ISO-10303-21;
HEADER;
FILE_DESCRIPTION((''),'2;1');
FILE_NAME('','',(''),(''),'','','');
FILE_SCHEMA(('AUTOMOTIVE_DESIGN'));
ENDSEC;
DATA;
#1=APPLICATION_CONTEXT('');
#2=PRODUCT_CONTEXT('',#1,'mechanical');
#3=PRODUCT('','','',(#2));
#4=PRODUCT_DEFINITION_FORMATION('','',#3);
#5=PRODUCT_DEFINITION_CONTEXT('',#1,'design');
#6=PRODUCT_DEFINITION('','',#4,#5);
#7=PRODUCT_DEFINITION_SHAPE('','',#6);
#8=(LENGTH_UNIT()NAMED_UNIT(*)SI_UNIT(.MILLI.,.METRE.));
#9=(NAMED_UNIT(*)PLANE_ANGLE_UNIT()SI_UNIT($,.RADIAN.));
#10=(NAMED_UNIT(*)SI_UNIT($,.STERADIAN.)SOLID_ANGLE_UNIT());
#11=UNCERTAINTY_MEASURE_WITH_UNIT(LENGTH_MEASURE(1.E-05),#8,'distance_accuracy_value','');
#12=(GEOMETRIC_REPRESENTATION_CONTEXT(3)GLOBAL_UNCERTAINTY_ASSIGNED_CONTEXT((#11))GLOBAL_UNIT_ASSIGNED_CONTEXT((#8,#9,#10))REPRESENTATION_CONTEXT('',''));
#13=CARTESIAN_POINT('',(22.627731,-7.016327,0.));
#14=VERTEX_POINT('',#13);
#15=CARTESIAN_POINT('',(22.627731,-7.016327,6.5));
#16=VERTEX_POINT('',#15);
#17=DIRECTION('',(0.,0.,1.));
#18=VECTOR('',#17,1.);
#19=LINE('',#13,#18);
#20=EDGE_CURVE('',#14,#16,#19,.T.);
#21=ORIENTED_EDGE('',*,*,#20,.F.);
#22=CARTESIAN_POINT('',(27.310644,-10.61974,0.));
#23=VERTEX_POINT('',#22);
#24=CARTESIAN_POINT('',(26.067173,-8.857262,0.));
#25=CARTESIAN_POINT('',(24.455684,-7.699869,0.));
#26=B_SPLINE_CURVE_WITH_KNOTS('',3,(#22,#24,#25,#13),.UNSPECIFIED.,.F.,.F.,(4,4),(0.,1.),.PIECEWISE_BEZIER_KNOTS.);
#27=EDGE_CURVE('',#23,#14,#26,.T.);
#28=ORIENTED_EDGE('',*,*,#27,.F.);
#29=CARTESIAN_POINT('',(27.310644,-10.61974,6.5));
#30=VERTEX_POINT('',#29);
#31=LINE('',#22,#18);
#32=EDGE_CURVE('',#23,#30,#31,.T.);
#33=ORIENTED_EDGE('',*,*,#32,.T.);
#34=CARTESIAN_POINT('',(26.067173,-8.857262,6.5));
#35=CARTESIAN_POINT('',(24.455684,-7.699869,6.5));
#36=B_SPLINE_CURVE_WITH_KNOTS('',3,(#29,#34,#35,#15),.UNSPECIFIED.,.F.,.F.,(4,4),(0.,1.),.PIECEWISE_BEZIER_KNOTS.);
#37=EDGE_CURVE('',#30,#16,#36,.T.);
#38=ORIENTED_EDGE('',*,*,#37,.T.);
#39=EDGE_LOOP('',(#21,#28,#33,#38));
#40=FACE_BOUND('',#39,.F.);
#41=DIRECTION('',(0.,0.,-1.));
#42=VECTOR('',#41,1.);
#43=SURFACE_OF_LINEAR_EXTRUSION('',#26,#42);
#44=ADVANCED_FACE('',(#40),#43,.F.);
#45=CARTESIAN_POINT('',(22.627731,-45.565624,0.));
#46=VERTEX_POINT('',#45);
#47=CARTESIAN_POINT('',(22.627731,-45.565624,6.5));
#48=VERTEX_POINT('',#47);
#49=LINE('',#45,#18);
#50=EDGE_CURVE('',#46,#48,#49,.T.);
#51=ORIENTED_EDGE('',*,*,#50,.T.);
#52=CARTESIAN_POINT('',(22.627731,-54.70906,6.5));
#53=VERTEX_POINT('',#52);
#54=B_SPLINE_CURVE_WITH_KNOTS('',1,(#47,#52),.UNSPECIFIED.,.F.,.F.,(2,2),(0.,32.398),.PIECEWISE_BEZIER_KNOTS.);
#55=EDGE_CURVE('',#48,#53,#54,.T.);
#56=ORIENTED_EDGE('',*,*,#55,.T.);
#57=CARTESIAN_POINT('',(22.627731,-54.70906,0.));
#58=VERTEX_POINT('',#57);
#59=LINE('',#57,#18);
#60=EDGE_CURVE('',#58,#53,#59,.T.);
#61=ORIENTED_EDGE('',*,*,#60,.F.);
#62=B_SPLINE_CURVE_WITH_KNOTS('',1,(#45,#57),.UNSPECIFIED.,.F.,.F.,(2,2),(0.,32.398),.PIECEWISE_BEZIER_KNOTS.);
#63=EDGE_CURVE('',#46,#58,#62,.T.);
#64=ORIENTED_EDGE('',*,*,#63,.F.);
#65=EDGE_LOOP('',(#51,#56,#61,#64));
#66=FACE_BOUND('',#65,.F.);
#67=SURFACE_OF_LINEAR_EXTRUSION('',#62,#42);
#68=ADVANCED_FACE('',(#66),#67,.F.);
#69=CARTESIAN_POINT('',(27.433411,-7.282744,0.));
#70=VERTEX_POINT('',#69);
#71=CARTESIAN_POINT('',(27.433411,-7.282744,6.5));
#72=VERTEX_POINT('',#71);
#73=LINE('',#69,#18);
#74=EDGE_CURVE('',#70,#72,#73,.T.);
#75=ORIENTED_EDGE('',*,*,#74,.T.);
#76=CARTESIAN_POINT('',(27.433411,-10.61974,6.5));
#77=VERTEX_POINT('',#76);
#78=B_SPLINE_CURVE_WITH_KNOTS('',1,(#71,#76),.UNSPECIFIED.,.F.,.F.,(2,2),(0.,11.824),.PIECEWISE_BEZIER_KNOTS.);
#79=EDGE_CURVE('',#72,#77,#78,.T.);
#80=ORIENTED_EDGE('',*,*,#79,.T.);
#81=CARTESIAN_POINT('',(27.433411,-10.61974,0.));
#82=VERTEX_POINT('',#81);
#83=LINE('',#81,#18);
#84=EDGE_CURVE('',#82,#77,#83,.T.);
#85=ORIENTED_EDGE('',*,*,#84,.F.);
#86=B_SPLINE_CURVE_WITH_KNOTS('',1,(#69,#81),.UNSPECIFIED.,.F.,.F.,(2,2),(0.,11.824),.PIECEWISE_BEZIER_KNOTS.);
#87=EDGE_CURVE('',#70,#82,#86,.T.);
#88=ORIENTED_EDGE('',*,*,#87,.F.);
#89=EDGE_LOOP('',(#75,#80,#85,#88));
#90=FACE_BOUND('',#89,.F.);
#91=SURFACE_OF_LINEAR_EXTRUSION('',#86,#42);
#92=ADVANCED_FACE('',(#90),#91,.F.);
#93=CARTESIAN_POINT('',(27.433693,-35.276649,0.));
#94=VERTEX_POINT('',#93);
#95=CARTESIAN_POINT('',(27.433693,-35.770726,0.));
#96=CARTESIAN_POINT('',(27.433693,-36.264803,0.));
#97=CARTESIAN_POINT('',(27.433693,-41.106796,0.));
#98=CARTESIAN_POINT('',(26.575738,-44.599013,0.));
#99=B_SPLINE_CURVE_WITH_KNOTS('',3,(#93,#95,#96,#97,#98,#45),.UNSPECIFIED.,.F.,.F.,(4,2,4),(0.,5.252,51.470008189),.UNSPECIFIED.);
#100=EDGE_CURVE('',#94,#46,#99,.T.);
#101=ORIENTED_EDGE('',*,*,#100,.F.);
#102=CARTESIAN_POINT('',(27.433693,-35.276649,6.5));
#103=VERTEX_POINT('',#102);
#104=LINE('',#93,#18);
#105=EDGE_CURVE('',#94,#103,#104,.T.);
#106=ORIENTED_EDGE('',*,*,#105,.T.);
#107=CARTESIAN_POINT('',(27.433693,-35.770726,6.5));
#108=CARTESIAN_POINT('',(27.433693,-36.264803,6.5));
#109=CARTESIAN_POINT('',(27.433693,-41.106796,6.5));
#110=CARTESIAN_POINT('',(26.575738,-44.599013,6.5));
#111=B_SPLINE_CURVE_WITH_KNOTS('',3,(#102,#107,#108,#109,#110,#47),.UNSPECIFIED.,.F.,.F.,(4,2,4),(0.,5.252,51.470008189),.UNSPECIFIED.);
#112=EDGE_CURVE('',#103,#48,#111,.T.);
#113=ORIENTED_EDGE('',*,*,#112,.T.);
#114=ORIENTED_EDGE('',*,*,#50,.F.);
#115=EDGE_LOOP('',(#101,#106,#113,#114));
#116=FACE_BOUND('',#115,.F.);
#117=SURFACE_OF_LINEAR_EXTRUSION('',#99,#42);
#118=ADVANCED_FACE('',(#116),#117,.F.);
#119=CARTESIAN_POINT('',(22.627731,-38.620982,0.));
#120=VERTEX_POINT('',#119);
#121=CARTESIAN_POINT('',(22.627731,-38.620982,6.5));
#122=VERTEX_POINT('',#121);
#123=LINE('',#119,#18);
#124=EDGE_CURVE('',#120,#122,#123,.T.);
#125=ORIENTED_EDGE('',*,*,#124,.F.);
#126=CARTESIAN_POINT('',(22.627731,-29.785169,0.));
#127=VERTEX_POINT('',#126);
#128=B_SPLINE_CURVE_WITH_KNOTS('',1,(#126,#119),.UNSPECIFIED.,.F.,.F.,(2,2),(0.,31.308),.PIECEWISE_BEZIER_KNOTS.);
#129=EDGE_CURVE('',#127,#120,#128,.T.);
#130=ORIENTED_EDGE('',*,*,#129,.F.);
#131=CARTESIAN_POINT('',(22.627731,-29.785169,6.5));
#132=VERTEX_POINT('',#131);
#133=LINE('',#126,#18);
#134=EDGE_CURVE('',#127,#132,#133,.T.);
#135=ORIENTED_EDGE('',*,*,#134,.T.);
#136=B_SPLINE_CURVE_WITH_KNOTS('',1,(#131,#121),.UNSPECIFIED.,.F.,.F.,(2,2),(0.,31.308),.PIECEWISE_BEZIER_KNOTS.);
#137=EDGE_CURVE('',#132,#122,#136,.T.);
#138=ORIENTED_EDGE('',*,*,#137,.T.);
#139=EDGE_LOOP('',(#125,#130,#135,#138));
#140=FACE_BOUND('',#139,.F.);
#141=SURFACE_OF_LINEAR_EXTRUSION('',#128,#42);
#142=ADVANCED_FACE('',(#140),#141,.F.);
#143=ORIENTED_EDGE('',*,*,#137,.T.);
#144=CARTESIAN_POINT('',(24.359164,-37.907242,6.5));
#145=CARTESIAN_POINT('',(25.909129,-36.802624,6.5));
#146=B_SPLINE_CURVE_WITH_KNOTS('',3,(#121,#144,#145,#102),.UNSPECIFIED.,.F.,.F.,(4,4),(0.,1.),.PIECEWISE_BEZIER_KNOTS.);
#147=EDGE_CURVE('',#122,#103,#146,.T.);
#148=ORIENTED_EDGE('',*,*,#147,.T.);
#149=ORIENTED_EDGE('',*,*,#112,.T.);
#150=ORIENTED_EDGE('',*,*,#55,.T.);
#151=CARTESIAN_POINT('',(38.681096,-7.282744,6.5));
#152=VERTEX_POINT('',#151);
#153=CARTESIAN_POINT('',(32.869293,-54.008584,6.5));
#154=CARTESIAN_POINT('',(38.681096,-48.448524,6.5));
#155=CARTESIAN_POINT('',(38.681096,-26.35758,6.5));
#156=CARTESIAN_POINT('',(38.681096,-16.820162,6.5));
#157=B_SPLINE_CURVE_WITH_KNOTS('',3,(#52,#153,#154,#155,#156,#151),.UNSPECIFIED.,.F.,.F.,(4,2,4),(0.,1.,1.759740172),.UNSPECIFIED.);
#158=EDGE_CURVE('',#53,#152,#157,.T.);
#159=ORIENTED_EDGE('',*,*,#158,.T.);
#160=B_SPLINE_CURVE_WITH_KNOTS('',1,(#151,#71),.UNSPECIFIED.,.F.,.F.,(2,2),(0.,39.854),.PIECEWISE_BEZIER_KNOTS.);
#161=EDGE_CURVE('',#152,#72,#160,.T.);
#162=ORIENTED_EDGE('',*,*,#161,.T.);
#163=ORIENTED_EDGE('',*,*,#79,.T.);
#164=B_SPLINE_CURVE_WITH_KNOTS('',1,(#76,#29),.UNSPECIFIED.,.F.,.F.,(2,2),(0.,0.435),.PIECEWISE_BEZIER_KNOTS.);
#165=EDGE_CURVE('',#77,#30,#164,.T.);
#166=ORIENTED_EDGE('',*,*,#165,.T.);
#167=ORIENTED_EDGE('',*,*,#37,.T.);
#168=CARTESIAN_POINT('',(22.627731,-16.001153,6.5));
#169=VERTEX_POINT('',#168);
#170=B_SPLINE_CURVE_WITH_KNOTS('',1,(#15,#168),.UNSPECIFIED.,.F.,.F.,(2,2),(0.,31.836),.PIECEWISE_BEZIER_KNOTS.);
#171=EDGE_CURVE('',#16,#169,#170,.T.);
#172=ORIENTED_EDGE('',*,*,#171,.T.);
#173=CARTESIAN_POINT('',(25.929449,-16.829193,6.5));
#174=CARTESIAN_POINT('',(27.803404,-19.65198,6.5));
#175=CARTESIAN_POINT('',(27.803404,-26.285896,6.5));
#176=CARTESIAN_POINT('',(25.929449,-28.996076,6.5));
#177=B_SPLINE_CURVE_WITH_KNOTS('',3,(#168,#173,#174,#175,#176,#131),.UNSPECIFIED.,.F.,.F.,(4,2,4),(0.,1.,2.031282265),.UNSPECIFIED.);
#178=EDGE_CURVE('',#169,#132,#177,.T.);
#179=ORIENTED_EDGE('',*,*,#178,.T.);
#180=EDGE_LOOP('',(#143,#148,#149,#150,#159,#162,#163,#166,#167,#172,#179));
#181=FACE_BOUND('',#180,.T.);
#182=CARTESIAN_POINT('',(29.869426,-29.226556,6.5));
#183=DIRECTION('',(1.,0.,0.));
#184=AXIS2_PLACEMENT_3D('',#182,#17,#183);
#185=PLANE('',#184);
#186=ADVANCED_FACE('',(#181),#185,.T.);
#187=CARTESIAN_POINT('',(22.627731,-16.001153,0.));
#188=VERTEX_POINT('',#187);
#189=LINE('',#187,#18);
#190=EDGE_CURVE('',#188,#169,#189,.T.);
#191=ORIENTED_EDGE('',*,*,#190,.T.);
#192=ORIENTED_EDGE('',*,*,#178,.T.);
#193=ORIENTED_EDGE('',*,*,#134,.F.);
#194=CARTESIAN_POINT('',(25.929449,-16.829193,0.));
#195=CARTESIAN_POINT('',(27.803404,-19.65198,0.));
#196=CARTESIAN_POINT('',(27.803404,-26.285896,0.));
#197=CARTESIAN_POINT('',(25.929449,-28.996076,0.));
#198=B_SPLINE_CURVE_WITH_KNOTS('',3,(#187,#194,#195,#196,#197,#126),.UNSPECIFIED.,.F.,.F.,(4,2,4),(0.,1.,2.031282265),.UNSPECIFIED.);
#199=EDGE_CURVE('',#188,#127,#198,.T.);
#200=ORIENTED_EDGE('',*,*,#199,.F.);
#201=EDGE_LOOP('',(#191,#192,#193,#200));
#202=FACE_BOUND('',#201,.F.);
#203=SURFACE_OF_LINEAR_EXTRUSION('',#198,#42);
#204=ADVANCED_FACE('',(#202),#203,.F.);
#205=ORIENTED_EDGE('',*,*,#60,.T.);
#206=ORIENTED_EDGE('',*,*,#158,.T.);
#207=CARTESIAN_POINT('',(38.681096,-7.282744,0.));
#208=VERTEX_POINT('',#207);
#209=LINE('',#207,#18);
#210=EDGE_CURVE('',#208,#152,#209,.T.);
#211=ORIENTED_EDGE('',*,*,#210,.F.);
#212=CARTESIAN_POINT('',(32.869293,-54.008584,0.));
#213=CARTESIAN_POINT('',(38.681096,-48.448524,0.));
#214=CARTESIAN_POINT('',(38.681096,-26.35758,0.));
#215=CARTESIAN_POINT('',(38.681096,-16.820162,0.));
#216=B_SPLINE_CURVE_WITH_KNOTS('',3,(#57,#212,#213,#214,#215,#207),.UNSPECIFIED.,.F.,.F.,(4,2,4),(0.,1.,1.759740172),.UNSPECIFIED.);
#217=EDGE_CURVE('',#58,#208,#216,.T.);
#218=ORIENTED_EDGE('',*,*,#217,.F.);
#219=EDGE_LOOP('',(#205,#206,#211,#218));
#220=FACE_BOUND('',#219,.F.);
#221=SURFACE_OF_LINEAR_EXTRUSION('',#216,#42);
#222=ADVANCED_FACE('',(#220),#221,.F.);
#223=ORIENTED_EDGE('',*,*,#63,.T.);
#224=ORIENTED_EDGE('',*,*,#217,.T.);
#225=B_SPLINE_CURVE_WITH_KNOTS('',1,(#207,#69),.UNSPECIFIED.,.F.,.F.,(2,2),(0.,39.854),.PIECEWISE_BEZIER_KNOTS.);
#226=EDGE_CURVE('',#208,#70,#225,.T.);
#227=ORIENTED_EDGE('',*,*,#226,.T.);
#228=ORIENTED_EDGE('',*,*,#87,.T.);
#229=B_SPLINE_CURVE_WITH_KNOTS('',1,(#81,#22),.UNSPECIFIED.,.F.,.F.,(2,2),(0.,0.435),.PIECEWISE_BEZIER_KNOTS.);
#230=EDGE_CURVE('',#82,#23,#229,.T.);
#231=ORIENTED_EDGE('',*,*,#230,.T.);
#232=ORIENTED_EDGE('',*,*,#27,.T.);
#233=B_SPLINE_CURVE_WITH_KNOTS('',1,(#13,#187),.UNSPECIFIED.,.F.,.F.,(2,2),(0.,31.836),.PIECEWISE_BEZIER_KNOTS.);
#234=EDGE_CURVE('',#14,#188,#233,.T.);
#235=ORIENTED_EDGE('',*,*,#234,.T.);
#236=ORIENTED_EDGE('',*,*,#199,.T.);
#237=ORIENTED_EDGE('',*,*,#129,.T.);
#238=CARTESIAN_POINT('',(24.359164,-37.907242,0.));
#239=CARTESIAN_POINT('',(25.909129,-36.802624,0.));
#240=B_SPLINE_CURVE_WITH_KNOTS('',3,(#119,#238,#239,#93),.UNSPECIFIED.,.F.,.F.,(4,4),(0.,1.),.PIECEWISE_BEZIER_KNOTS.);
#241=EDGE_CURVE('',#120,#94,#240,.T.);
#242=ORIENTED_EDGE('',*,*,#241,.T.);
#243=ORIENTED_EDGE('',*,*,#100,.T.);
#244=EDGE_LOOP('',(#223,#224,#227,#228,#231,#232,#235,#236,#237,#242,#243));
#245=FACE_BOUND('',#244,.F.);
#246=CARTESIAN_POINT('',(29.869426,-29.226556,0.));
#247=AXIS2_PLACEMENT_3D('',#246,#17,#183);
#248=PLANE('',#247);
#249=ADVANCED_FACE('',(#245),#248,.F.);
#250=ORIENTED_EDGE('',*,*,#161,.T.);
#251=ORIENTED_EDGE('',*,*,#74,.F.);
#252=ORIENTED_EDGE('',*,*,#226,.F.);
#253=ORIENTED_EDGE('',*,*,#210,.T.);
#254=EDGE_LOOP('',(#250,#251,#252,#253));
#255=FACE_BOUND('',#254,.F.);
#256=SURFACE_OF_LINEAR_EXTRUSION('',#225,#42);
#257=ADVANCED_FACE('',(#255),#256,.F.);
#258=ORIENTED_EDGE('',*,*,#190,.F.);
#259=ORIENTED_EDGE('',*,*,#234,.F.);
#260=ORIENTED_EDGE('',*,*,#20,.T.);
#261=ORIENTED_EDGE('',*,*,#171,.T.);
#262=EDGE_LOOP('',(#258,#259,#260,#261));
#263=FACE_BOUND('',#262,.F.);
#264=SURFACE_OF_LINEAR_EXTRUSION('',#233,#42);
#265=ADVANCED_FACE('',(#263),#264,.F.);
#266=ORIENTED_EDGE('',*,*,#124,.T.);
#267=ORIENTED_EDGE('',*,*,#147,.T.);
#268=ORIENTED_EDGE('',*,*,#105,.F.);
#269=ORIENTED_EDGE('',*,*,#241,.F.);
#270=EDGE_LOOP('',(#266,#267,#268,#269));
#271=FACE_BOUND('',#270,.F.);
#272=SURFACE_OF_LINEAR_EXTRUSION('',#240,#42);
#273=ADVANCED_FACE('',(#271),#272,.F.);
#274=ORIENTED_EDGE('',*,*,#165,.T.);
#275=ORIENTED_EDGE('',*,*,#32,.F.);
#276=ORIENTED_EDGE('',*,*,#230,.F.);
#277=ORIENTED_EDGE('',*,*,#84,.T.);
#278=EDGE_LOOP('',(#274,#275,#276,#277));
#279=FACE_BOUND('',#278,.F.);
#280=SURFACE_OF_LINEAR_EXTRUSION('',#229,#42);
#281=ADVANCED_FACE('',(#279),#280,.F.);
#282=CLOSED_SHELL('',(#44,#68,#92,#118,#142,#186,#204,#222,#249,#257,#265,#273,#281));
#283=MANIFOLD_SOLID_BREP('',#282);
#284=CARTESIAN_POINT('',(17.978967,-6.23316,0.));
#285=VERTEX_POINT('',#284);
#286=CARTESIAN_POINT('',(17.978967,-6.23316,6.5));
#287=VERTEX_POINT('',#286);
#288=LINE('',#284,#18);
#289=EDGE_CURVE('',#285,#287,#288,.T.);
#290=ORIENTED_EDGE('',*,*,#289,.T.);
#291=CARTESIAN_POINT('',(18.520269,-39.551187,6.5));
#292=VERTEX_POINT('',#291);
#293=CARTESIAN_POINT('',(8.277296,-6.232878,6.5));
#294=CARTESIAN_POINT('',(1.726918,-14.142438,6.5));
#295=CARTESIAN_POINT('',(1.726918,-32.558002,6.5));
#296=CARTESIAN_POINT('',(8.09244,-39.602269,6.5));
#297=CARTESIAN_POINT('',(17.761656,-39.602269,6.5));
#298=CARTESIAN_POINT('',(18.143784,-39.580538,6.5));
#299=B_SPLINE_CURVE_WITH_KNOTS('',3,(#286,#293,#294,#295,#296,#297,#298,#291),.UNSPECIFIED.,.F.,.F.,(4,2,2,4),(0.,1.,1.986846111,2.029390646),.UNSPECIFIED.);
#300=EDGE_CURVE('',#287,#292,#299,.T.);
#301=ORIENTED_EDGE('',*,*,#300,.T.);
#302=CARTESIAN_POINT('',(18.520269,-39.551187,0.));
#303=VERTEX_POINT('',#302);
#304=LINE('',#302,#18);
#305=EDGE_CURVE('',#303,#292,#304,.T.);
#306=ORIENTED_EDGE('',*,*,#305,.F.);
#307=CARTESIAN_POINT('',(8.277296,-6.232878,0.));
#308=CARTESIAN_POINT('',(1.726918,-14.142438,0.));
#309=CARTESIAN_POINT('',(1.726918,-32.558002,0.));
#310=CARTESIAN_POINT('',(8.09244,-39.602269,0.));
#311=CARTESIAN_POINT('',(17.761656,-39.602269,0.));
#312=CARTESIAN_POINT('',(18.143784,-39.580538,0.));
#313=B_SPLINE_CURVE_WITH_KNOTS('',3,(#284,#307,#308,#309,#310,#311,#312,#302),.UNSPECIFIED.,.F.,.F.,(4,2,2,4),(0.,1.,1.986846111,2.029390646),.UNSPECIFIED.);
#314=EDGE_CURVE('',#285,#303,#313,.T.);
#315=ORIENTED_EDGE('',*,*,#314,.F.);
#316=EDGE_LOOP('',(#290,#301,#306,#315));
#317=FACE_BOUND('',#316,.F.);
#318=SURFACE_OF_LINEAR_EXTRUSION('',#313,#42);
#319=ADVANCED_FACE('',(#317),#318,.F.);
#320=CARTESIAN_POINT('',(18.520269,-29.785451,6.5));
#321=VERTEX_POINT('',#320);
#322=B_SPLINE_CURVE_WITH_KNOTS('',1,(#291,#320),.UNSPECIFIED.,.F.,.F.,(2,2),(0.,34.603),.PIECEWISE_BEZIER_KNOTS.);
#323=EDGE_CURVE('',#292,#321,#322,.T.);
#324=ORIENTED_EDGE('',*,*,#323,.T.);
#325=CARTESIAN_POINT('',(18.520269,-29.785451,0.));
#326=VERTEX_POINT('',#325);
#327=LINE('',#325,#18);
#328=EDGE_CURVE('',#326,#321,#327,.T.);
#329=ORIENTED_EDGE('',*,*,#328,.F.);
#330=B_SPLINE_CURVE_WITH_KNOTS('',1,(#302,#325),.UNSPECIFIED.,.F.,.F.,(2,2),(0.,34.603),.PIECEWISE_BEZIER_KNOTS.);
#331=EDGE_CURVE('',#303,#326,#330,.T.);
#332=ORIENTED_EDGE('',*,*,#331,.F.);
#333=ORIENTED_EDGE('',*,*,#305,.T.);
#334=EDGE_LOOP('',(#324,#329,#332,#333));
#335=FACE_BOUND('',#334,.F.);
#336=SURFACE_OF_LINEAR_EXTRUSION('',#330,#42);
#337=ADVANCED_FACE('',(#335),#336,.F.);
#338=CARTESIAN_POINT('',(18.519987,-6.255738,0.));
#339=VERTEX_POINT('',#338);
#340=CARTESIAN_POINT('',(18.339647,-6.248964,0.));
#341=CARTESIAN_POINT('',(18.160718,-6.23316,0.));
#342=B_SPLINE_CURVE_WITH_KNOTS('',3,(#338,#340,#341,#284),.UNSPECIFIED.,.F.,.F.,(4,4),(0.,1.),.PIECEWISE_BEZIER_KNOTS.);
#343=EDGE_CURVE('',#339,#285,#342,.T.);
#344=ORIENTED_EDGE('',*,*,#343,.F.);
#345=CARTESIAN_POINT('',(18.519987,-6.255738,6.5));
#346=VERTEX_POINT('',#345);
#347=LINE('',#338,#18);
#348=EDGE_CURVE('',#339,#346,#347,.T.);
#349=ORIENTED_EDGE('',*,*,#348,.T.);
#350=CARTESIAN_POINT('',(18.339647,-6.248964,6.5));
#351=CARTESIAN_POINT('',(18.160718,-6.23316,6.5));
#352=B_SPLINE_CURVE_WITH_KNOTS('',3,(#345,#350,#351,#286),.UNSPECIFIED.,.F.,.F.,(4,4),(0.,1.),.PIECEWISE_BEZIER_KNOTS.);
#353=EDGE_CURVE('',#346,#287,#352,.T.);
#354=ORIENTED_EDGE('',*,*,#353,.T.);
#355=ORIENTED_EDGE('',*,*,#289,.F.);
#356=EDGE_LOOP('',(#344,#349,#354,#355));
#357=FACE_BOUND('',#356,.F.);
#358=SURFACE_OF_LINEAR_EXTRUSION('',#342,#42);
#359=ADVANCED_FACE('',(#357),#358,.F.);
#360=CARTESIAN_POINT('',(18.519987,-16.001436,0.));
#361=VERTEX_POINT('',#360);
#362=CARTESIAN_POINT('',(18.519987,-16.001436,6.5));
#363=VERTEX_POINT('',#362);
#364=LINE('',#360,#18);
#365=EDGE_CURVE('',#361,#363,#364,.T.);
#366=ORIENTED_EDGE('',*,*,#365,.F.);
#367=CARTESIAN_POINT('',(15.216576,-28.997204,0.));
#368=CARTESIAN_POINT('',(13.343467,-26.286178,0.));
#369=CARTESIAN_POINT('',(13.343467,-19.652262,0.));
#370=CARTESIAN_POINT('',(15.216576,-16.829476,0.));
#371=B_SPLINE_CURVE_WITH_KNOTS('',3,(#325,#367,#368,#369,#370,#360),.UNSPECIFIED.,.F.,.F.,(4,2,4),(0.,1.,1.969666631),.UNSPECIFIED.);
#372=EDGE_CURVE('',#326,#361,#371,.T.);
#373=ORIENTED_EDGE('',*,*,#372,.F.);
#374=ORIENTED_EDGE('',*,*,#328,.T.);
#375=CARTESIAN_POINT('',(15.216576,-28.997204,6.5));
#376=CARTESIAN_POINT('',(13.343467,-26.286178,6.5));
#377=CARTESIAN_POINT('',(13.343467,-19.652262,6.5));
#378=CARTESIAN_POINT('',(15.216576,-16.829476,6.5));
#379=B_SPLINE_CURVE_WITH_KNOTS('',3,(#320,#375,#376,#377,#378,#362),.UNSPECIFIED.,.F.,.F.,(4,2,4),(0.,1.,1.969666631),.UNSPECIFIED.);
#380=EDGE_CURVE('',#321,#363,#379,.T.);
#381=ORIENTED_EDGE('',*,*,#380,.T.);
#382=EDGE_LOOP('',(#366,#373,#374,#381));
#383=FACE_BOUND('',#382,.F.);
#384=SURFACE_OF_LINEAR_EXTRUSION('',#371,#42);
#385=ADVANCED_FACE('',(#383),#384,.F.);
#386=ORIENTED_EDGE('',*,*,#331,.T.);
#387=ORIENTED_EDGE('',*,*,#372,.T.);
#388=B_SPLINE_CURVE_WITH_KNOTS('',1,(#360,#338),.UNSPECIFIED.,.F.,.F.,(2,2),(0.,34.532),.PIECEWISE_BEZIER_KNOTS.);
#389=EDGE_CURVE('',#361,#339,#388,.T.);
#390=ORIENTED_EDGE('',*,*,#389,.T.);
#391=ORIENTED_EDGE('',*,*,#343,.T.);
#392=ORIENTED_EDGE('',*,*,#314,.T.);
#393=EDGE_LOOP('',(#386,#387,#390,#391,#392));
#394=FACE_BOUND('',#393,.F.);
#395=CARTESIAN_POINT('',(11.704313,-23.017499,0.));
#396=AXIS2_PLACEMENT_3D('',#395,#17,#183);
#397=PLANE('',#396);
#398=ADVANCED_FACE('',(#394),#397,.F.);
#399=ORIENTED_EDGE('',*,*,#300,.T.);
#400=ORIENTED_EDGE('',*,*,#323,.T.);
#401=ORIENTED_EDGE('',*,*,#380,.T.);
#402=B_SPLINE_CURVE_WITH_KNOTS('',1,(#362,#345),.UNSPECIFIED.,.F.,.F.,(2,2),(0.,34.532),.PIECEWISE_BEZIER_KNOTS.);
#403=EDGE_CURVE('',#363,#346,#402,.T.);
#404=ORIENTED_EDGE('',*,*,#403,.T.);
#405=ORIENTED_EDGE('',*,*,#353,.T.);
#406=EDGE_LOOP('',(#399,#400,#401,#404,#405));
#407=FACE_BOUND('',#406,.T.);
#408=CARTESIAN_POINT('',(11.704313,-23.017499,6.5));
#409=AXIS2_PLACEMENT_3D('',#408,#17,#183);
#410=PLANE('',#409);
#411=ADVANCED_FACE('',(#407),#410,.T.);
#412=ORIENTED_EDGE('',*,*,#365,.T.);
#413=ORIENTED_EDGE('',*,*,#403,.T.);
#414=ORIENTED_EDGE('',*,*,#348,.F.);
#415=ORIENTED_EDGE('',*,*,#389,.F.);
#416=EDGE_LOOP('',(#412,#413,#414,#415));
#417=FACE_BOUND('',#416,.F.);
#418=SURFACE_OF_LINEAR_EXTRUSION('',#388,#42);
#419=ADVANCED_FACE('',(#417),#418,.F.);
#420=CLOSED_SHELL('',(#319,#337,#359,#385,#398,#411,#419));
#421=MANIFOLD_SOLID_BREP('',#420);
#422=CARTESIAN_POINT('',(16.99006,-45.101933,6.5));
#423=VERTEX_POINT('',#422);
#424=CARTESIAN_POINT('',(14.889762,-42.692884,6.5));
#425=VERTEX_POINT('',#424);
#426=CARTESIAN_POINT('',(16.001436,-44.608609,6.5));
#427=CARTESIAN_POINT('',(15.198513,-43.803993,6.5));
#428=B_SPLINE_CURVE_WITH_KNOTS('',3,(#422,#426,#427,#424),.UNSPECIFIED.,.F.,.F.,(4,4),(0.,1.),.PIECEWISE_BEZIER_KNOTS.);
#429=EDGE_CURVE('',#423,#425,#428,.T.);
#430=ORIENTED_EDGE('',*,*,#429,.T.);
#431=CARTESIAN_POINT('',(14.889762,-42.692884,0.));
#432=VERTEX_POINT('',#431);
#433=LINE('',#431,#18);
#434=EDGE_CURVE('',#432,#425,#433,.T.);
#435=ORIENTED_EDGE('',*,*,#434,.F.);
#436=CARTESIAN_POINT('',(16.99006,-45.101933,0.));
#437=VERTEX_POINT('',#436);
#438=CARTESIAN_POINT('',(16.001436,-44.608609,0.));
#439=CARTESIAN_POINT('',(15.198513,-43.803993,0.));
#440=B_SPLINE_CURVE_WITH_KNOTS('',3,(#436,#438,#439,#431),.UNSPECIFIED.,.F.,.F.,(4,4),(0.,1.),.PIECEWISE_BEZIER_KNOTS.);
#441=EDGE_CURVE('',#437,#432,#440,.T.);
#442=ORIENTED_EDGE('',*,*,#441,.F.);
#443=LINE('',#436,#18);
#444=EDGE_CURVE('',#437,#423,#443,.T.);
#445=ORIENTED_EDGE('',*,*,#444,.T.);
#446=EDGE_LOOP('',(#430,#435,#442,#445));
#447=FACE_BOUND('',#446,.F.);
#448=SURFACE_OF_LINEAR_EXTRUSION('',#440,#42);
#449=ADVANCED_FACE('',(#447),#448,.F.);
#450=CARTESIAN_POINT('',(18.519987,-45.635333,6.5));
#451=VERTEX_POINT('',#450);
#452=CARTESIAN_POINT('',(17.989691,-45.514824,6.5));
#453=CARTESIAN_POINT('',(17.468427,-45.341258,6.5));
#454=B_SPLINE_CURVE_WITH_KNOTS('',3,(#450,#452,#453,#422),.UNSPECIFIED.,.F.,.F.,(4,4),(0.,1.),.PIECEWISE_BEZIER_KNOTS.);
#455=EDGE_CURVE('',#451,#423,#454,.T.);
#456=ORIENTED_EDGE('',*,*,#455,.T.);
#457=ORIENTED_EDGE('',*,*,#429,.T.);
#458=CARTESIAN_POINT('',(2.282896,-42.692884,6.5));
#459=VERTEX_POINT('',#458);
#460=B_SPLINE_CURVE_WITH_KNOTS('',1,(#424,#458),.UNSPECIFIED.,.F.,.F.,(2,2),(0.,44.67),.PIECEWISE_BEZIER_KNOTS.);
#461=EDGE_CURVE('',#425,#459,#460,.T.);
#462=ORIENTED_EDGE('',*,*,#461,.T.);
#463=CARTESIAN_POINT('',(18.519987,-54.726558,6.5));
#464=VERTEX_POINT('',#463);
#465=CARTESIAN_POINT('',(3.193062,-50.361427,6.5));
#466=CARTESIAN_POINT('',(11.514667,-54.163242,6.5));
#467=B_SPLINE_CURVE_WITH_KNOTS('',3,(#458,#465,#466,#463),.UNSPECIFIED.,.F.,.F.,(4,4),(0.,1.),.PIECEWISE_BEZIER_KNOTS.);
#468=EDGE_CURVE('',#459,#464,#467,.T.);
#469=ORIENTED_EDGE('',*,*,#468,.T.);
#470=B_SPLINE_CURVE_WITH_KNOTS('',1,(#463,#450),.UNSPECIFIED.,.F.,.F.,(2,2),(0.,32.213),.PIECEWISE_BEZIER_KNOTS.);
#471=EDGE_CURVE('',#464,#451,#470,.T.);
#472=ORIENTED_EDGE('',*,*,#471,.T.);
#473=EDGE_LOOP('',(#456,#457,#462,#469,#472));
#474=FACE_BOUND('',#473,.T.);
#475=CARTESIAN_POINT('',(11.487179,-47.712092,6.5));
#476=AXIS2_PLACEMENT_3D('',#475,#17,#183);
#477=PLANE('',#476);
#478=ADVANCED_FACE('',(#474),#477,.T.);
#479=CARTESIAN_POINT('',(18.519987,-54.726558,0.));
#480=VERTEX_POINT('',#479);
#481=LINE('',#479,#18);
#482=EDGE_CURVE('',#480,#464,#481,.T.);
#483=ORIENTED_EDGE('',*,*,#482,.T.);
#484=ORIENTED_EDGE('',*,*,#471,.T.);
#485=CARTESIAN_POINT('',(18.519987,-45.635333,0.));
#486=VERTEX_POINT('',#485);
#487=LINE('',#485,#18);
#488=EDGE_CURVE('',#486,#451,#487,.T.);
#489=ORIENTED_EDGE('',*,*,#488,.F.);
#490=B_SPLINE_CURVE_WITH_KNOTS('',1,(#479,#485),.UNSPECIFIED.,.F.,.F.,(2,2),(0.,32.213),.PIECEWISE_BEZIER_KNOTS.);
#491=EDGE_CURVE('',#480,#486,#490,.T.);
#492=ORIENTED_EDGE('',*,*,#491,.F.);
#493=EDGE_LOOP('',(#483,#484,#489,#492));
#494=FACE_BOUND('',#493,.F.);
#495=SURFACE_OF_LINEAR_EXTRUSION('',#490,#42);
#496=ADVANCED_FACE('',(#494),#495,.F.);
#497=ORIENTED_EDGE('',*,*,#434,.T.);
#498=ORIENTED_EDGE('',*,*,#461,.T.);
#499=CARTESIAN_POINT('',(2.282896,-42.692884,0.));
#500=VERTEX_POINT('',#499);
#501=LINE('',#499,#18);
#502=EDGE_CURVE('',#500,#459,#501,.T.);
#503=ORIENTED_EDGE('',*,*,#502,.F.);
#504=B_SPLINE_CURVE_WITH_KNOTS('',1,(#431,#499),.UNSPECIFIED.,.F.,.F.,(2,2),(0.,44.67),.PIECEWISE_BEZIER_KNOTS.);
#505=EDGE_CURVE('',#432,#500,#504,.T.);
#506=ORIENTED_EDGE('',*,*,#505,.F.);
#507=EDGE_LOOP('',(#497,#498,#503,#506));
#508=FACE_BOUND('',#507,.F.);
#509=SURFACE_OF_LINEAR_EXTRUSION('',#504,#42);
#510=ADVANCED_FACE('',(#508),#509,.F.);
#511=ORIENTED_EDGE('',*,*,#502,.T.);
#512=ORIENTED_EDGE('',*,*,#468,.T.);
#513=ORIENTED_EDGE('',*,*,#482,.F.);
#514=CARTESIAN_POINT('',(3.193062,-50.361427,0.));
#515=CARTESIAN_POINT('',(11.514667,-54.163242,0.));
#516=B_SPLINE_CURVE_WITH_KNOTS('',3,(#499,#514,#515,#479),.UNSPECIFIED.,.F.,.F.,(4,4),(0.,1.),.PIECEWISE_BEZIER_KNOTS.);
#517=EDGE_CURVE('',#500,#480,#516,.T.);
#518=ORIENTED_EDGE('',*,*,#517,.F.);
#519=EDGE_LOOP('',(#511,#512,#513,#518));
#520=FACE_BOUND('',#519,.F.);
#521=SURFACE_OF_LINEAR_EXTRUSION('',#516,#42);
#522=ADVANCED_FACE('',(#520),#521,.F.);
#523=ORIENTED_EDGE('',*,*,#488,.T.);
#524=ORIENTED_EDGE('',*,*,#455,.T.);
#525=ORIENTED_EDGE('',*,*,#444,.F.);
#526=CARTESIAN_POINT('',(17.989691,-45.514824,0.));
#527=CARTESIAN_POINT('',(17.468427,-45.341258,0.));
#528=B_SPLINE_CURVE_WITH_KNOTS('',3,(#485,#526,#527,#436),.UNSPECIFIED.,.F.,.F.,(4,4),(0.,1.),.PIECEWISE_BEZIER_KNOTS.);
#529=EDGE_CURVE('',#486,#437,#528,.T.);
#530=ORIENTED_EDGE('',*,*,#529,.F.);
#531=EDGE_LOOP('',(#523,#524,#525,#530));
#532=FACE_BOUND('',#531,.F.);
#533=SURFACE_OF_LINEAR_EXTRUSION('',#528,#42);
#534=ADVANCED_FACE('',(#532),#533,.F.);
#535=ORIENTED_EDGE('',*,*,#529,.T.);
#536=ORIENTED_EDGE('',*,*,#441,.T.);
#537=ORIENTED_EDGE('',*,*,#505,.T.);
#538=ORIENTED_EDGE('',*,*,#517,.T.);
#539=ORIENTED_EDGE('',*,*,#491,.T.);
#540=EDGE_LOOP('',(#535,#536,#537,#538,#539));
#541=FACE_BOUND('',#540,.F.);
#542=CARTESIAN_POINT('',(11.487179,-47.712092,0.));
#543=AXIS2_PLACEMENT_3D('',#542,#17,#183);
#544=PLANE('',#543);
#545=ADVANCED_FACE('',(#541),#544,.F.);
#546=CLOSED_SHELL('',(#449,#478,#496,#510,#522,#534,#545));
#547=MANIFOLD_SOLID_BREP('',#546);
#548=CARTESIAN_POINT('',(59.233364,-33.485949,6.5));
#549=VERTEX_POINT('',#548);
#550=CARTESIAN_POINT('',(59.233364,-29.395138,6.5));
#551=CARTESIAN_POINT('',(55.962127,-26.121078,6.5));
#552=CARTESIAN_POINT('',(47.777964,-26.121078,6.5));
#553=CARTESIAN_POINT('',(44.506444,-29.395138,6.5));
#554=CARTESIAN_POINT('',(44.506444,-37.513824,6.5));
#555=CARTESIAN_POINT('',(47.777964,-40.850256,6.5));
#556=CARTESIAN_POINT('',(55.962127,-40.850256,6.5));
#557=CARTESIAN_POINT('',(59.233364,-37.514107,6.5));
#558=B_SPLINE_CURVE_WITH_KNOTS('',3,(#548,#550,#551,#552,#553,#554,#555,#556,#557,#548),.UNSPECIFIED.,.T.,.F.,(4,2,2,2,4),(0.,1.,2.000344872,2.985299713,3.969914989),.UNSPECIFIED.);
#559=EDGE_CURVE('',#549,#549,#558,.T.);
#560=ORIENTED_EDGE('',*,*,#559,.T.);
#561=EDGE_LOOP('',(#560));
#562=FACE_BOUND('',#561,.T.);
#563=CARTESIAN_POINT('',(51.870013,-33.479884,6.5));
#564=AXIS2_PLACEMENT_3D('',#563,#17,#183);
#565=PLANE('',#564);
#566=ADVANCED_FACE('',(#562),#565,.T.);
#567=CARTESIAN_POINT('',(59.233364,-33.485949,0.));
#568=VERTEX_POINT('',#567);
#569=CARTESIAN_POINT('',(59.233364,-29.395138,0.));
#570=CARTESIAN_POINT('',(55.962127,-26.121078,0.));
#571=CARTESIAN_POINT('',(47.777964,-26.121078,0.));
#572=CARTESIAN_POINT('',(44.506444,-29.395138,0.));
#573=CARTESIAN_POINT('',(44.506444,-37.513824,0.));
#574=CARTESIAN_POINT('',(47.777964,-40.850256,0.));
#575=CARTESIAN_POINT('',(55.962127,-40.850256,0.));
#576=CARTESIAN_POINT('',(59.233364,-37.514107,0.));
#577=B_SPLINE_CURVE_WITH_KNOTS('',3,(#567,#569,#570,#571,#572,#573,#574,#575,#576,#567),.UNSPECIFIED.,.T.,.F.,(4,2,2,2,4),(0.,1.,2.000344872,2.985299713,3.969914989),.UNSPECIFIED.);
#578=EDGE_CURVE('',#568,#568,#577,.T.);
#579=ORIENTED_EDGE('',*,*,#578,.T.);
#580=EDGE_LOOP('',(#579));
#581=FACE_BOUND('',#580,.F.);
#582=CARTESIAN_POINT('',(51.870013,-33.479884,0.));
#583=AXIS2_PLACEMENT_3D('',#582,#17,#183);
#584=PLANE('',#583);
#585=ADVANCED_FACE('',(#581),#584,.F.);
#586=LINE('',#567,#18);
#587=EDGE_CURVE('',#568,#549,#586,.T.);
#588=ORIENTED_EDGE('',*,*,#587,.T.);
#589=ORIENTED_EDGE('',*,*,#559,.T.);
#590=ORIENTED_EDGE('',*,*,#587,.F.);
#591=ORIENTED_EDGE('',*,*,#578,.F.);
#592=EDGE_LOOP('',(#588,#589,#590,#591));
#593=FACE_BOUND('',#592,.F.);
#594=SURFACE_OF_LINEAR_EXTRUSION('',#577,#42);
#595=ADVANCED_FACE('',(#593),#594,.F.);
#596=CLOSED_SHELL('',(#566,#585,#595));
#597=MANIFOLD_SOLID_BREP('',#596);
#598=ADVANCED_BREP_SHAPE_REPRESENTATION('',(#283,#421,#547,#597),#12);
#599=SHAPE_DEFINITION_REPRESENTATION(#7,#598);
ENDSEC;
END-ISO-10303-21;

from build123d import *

# Parameters (mm, degrees)
EXTRUDE001_DEPTH = 6.5
EXTRUDE_DEPTH    = 6.5


with BuildPart() as extrude001:
    # Sketch004 → Extrude001 (new body)
    with BuildSketch(Plane.XY):
        with BuildLine():
            add(Edge.make_bspline(
                [(51.870751, -26.121078), (47.777964, -26.121078), (44.506444, -29.395138), (44.506444, -33.485949)],
                knots=[0, 0, 0, 0, 1, 1, 1, 1], degree=3))
            add(Edge.make_bspline(
                [(44.506444, -33.485949), (44.506444, -37.513824), (47.777964, -40.850256), (51.870751, -40.850256)],
                knots=[0, 0, 0, 0, 1, 1, 1, 1], degree=3))
            add(Edge.make_bspline(
                [(51.870751, -40.850256), (55.962127, -40.850256), (59.233364, -37.514107), (59.233364, -33.485949)],
                knots=[0, 0, 0, 0, 1, 1, 1, 1], degree=3))
            add(Edge.make_bspline(
                [(59.233364, -33.485949), (59.233364, -29.395138), (55.962127, -26.121078), (51.870751, -26.121078)],
                knots=[0, 0, 0, 0, 1, 1, 1, 1], degree=3))
        make_face()
        with BuildLine():
            add(Edge.make_bspline(
                [(14.889762, -42.692884), (2.282896, -42.692884)],
                knots=[0, 0, 44.67, 44.67], degree=1))
            add(Edge.make_bspline(
                [(2.282896, -42.692884), (3.193062, -50.361427), (11.514667, -54.163242), (18.519987, -54.726558)],
                knots=[0, 0, 0, 0, 1, 1, 1, 1], degree=3))
            add(Edge.make_bspline(
                [(18.519987, -54.726558), (18.519987, -45.635333)],
                knots=[0, 0, 32.213, 32.213], degree=1))
            add(Edge.make_bspline(
                [(18.519987, -45.635333), (17.989691, -45.514824), (17.468427, -45.341258), (16.99006, -45.101933)],
                knots=[0, 0, 0, 0, 1, 1, 1, 1], degree=3))
            add(Edge.make_bspline(
                [(16.99006, -45.101933), (16.001436, -44.608609), (15.198513, -43.803993), (14.889762, -42.692884)],
                knots=[0, 0, 0, 0, 1, 1, 1, 1], degree=3))
        make_face()
        with BuildLine():
            add(Edge.make_bspline(
                [(1.726918, -23.41118), (1.726918, -32.558002), (8.09244, -39.602269), (17.362029, -39.602269)],
                knots=[0, 0, 0, 0, 1, 1, 1, 1], degree=3))
            add(Edge.make_bspline(
                [(17.362029, -39.602269), (17.761656, -39.602269), (18.143784, -39.580538), (18.520269, -39.551187)],
                knots=[0, 0, 0, 0, 1, 1, 1, 1], degree=3))
            add(Edge.make_bspline(
                [(18.520269, -39.551187), (18.520269, -29.785451)],
                knots=[0, 0, 34.603, 34.603], degree=1))
            add(Edge.make_bspline(
                [(18.520269, -29.785451), (15.216576, -28.997204), (13.343467, -26.286178), (13.343467, -22.918138)],
                knots=[0, 0, 0, 0, 1, 1, 1, 1], degree=3))
            add(Edge.make_bspline(
                [(13.343467, -22.918138), (13.343467, -19.652262), (15.216576, -16.829476), (18.519987, -16.001436)],
                knots=[0, 0, 0, 0, 1, 1, 1, 1], degree=3))
            add(Edge.make_bspline(
                [(18.519987, -16.001436), (18.519987, -6.255738)],
                knots=[0, 0, 34.532, 34.532], degree=1))
            add(Edge.make_bspline(
                [(18.519987, -6.255738), (18.339647, -6.248964), (18.160718, -6.23316), (17.978967, -6.23316)],
                knots=[0, 0, 0, 0, 1, 1, 1, 1], degree=3))
            add(Edge.make_bspline(
                [(17.978967, -6.23316), (8.277296, -6.232878), (1.726918, -14.142438), (1.726918, -23.41118)],
                knots=[0, 0, 0, 0, 1, 1, 1, 1], degree=3))
        make_face()
        with BuildLine():
            add(Edge.make_bspline(
                [(27.433411, -10.61974), (27.310644, -10.61974)],
                knots=[0, 0, 0.435, 0.435], degree=1))
            add(Edge.make_bspline(
                [(27.310644, -10.61974), (26.067173, -8.857262), (24.455684, -7.699869), (22.627731, -7.016327)],
                knots=[0, 0, 0, 0, 1, 1, 1, 1], degree=3))
            add(Edge.make_bspline(
                [(22.627731, -7.016327), (22.627731, -16.001153)],
                knots=[0, 0, 31.836, 31.836], degree=1))
            add(Edge.make_bspline(
                [(22.627731, -16.001153), (25.929449, -16.829193), (27.803404, -19.65198), (27.803404, -22.917856)],
                knots=[0, 0, 0, 0, 1, 1, 1, 1], degree=3))
            add(Edge.make_bspline(
                [(27.803404, -22.917856), (27.803404, -26.285896), (25.929449, -28.996076), (22.627731, -29.785169)],
                knots=[0, 0, 0, 0, 1, 1, 1, 1], degree=3))
            add(Edge.make_bspline(
                [(22.627731, -29.785169), (22.627731, -38.620982)],
                knots=[0, 0, 31.308, 31.308], degree=1))
            add(Edge.make_bspline(
                [(22.627731, -38.620982), (24.359164, -37.907242), (25.909129, -36.802624), (27.433693, -35.276649)],
                knots=[0, 0, 0, 0, 1, 1, 1, 1], degree=3))
            add(Edge.make_bspline(
                [(27.433693, -35.276649), (27.433693, -36.75888)],
                knots=[0, 0, 5.252, 5.252], degree=1))
            add(Edge.make_bspline(
                [(27.433693, -36.75888), (27.433693, -41.106796), (26.575738, -44.599013), (22.627731, -45.565624)],
                knots=[0, 0, 0, 0, 1, 1, 1, 1], degree=3))
            add(Edge.make_bspline(
                [(22.627731, -45.565624), (22.627731, -54.70906)],
                knots=[0, 0, 32.398, 32.398], degree=1))
            add(Edge.make_bspline(
                [(22.627731, -54.70906), (32.869293, -54.008584), (38.681096, -48.448524), (38.681096, -35.894998)],
                knots=[0, 0, 0, 0, 1, 1, 1, 1], degree=3))
            add(Edge.make_bspline(
                [(38.681096, -35.894998), (38.681096, -7.282744)],
                knots=[0, 0, 101.382, 101.382], degree=1))
            add(Edge.make_bspline(
                [(38.681096, -7.282744), (27.433411, -7.282744)],
                knots=[0, 0, 39.854, 39.854], degree=1))
            add(Edge.make_bspline(
                [(27.433411, -7.282744), (27.433411, -10.61974)],
                knots=[0, 0, 11.824, 11.824], degree=1))
        make_face()
    extrude(amount=EXTRUDE001_DEPTH)


with BuildPart() as fusion:
    # Sketch004 → Extrude (new body)
    with BuildSketch(Plane.XY):
        with BuildLine():
            add(Edge.make_bspline(
                [(51.870751, -26.121078), (47.777964, -26.121078), (44.506444, -29.395138), (44.506444, -33.485949)],
                knots=[0, 0, 0, 0, 1, 1, 1, 1], degree=3))
            add(Edge.make_bspline(
                [(44.506444, -33.485949), (44.506444, -37.513824), (47.777964, -40.850256), (51.870751, -40.850256)],
                knots=[0, 0, 0, 0, 1, 1, 1, 1], degree=3))
            add(Edge.make_bspline(
                [(51.870751, -40.850256), (55.962127, -40.850256), (59.233364, -37.514107), (59.233364, -33.485949)],
                knots=[0, 0, 0, 0, 1, 1, 1, 1], degree=3))
            add(Edge.make_bspline(
                [(59.233364, -33.485949), (59.233364, -29.395138), (55.962127, -26.121078), (51.870751, -26.121078)],
                knots=[0, 0, 0, 0, 1, 1, 1, 1], degree=3))
        make_face()
        with BuildLine():
            add(Edge.make_bspline(
                [(14.889762, -42.692884), (2.282896, -42.692884)],
                knots=[0, 0, 44.67, 44.67], degree=1))
            add(Edge.make_bspline(
                [(2.282896, -42.692884), (3.193062, -50.361427), (11.514667, -54.163242), (18.519987, -54.726558)],
                knots=[0, 0, 0, 0, 1, 1, 1, 1], degree=3))
            add(Edge.make_bspline(
                [(18.519987, -54.726558), (18.519987, -45.635333)],
                knots=[0, 0, 32.213, 32.213], degree=1))
            add(Edge.make_bspline(
                [(18.519987, -45.635333), (17.989691, -45.514824), (17.468427, -45.341258), (16.99006, -45.101933)],
                knots=[0, 0, 0, 0, 1, 1, 1, 1], degree=3))
            add(Edge.make_bspline(
                [(16.99006, -45.101933), (16.001436, -44.608609), (15.198513, -43.803993), (14.889762, -42.692884)],
                knots=[0, 0, 0, 0, 1, 1, 1, 1], degree=3))
        make_face()
        with BuildLine():
            add(Edge.make_bspline(
                [(1.726918, -23.41118), (1.726918, -32.558002), (8.09244, -39.602269), (17.362029, -39.602269)],
                knots=[0, 0, 0, 0, 1, 1, 1, 1], degree=3))
            add(Edge.make_bspline(
                [(17.362029, -39.602269), (17.761656, -39.602269), (18.143784, -39.580538), (18.520269, -39.551187)],
                knots=[0, 0, 0, 0, 1, 1, 1, 1], degree=3))
            add(Edge.make_bspline(
                [(18.520269, -39.551187), (18.520269, -29.785451)],
                knots=[0, 0, 34.603, 34.603], degree=1))
            add(Edge.make_bspline(
                [(18.520269, -29.785451), (15.216576, -28.997204), (13.343467, -26.286178), (13.343467, -22.918138)],
                knots=[0, 0, 0, 0, 1, 1, 1, 1], degree=3))
            add(Edge.make_bspline(
                [(13.343467, -22.918138), (13.343467, -19.652262), (15.216576, -16.829476), (18.519987, -16.001436)],
                knots=[0, 0, 0, 0, 1, 1, 1, 1], degree=3))
            add(Edge.make_bspline(
                [(18.519987, -16.001436), (18.519987, -6.255738)],
                knots=[0, 0, 34.532, 34.532], degree=1))
            add(Edge.make_bspline(
                [(18.519987, -6.255738), (18.339647, -6.248964), (18.160718, -6.23316), (17.978967, -6.23316)],
                knots=[0, 0, 0, 0, 1, 1, 1, 1], degree=3))
            add(Edge.make_bspline(
                [(17.978967, -6.23316), (8.277296, -6.232878), (1.726918, -14.142438), (1.726918, -23.41118)],
                knots=[0, 0, 0, 0, 1, 1, 1, 1], degree=3))
        make_face()
        with BuildLine():
            add(Edge.make_bspline(
                [(27.433411, -10.61974), (27.310644, -10.61974)],
                knots=[0, 0, 0.435, 0.435], degree=1))
            add(Edge.make_bspline(
                [(27.310644, -10.61974), (26.067173, -8.857262), (24.455684, -7.699869), (22.627731, -7.016327)],
                knots=[0, 0, 0, 0, 1, 1, 1, 1], degree=3))
            add(Edge.make_bspline(
                [(22.627731, -7.016327), (22.627731, -16.001153)],
                knots=[0, 0, 31.836, 31.836], degree=1))
            add(Edge.make_bspline(
                [(22.627731, -16.001153), (25.929449, -16.829193), (27.803404, -19.65198), (27.803404, -22.917856)],
                knots=[0, 0, 0, 0, 1, 1, 1, 1], degree=3))
            add(Edge.make_bspline(
                [(27.803404, -22.917856), (27.803404, -26.285896), (25.929449, -28.996076), (22.627731, -29.785169)],
                knots=[0, 0, 0, 0, 1, 1, 1, 1], degree=3))
            add(Edge.make_bspline(
                [(22.627731, -29.785169), (22.627731, -38.620982)],
                knots=[0, 0, 31.308, 31.308], degree=1))
            add(Edge.make_bspline(
                [(22.627731, -38.620982), (24.359164, -37.907242), (25.909129, -36.802624), (27.433693, -35.276649)],
                knots=[0, 0, 0, 0, 1, 1, 1, 1], degree=3))
            add(Edge.make_bspline(
                [(27.433693, -35.276649), (27.433693, -36.75888)],
                knots=[0, 0, 5.252, 5.252], degree=1))
            add(Edge.make_bspline(
                [(27.433693, -36.75888), (27.433693, -41.106796), (26.575738, -44.599013), (22.627731, -45.565624)],
                knots=[0, 0, 0, 0, 1, 1, 1, 1], degree=3))
            add(Edge.make_bspline(
                [(22.627731, -45.565624), (22.627731, -54.70906)],
                knots=[0, 0, 32.398, 32.398], degree=1))
            add(Edge.make_bspline(
                [(22.627731, -54.70906), (32.869293, -54.008584), (38.681096, -48.448524), (38.681096, -35.894998)],
                knots=[0, 0, 0, 0, 1, 1, 1, 1], degree=3))
            add(Edge.make_bspline(
                [(38.681096, -35.894998), (38.681096, -7.282744)],
                knots=[0, 0, 101.382, 101.382], degree=1))
            add(Edge.make_bspline(
                [(38.681096, -7.282744), (27.433411, -7.282744)],
                knots=[0, 0, 39.854, 39.854], degree=1))
            add(Edge.make_bspline(
                [(27.433411, -7.282744), (27.433411, -10.61974)],
                knots=[0, 0, 11.824, 11.824], degree=1))
        make_face()
    extrude(amount=EXTRUDE_DEPTH)

    # Fusion: union Extrude001
    add(extrude001.part)


solid = fusion.part
